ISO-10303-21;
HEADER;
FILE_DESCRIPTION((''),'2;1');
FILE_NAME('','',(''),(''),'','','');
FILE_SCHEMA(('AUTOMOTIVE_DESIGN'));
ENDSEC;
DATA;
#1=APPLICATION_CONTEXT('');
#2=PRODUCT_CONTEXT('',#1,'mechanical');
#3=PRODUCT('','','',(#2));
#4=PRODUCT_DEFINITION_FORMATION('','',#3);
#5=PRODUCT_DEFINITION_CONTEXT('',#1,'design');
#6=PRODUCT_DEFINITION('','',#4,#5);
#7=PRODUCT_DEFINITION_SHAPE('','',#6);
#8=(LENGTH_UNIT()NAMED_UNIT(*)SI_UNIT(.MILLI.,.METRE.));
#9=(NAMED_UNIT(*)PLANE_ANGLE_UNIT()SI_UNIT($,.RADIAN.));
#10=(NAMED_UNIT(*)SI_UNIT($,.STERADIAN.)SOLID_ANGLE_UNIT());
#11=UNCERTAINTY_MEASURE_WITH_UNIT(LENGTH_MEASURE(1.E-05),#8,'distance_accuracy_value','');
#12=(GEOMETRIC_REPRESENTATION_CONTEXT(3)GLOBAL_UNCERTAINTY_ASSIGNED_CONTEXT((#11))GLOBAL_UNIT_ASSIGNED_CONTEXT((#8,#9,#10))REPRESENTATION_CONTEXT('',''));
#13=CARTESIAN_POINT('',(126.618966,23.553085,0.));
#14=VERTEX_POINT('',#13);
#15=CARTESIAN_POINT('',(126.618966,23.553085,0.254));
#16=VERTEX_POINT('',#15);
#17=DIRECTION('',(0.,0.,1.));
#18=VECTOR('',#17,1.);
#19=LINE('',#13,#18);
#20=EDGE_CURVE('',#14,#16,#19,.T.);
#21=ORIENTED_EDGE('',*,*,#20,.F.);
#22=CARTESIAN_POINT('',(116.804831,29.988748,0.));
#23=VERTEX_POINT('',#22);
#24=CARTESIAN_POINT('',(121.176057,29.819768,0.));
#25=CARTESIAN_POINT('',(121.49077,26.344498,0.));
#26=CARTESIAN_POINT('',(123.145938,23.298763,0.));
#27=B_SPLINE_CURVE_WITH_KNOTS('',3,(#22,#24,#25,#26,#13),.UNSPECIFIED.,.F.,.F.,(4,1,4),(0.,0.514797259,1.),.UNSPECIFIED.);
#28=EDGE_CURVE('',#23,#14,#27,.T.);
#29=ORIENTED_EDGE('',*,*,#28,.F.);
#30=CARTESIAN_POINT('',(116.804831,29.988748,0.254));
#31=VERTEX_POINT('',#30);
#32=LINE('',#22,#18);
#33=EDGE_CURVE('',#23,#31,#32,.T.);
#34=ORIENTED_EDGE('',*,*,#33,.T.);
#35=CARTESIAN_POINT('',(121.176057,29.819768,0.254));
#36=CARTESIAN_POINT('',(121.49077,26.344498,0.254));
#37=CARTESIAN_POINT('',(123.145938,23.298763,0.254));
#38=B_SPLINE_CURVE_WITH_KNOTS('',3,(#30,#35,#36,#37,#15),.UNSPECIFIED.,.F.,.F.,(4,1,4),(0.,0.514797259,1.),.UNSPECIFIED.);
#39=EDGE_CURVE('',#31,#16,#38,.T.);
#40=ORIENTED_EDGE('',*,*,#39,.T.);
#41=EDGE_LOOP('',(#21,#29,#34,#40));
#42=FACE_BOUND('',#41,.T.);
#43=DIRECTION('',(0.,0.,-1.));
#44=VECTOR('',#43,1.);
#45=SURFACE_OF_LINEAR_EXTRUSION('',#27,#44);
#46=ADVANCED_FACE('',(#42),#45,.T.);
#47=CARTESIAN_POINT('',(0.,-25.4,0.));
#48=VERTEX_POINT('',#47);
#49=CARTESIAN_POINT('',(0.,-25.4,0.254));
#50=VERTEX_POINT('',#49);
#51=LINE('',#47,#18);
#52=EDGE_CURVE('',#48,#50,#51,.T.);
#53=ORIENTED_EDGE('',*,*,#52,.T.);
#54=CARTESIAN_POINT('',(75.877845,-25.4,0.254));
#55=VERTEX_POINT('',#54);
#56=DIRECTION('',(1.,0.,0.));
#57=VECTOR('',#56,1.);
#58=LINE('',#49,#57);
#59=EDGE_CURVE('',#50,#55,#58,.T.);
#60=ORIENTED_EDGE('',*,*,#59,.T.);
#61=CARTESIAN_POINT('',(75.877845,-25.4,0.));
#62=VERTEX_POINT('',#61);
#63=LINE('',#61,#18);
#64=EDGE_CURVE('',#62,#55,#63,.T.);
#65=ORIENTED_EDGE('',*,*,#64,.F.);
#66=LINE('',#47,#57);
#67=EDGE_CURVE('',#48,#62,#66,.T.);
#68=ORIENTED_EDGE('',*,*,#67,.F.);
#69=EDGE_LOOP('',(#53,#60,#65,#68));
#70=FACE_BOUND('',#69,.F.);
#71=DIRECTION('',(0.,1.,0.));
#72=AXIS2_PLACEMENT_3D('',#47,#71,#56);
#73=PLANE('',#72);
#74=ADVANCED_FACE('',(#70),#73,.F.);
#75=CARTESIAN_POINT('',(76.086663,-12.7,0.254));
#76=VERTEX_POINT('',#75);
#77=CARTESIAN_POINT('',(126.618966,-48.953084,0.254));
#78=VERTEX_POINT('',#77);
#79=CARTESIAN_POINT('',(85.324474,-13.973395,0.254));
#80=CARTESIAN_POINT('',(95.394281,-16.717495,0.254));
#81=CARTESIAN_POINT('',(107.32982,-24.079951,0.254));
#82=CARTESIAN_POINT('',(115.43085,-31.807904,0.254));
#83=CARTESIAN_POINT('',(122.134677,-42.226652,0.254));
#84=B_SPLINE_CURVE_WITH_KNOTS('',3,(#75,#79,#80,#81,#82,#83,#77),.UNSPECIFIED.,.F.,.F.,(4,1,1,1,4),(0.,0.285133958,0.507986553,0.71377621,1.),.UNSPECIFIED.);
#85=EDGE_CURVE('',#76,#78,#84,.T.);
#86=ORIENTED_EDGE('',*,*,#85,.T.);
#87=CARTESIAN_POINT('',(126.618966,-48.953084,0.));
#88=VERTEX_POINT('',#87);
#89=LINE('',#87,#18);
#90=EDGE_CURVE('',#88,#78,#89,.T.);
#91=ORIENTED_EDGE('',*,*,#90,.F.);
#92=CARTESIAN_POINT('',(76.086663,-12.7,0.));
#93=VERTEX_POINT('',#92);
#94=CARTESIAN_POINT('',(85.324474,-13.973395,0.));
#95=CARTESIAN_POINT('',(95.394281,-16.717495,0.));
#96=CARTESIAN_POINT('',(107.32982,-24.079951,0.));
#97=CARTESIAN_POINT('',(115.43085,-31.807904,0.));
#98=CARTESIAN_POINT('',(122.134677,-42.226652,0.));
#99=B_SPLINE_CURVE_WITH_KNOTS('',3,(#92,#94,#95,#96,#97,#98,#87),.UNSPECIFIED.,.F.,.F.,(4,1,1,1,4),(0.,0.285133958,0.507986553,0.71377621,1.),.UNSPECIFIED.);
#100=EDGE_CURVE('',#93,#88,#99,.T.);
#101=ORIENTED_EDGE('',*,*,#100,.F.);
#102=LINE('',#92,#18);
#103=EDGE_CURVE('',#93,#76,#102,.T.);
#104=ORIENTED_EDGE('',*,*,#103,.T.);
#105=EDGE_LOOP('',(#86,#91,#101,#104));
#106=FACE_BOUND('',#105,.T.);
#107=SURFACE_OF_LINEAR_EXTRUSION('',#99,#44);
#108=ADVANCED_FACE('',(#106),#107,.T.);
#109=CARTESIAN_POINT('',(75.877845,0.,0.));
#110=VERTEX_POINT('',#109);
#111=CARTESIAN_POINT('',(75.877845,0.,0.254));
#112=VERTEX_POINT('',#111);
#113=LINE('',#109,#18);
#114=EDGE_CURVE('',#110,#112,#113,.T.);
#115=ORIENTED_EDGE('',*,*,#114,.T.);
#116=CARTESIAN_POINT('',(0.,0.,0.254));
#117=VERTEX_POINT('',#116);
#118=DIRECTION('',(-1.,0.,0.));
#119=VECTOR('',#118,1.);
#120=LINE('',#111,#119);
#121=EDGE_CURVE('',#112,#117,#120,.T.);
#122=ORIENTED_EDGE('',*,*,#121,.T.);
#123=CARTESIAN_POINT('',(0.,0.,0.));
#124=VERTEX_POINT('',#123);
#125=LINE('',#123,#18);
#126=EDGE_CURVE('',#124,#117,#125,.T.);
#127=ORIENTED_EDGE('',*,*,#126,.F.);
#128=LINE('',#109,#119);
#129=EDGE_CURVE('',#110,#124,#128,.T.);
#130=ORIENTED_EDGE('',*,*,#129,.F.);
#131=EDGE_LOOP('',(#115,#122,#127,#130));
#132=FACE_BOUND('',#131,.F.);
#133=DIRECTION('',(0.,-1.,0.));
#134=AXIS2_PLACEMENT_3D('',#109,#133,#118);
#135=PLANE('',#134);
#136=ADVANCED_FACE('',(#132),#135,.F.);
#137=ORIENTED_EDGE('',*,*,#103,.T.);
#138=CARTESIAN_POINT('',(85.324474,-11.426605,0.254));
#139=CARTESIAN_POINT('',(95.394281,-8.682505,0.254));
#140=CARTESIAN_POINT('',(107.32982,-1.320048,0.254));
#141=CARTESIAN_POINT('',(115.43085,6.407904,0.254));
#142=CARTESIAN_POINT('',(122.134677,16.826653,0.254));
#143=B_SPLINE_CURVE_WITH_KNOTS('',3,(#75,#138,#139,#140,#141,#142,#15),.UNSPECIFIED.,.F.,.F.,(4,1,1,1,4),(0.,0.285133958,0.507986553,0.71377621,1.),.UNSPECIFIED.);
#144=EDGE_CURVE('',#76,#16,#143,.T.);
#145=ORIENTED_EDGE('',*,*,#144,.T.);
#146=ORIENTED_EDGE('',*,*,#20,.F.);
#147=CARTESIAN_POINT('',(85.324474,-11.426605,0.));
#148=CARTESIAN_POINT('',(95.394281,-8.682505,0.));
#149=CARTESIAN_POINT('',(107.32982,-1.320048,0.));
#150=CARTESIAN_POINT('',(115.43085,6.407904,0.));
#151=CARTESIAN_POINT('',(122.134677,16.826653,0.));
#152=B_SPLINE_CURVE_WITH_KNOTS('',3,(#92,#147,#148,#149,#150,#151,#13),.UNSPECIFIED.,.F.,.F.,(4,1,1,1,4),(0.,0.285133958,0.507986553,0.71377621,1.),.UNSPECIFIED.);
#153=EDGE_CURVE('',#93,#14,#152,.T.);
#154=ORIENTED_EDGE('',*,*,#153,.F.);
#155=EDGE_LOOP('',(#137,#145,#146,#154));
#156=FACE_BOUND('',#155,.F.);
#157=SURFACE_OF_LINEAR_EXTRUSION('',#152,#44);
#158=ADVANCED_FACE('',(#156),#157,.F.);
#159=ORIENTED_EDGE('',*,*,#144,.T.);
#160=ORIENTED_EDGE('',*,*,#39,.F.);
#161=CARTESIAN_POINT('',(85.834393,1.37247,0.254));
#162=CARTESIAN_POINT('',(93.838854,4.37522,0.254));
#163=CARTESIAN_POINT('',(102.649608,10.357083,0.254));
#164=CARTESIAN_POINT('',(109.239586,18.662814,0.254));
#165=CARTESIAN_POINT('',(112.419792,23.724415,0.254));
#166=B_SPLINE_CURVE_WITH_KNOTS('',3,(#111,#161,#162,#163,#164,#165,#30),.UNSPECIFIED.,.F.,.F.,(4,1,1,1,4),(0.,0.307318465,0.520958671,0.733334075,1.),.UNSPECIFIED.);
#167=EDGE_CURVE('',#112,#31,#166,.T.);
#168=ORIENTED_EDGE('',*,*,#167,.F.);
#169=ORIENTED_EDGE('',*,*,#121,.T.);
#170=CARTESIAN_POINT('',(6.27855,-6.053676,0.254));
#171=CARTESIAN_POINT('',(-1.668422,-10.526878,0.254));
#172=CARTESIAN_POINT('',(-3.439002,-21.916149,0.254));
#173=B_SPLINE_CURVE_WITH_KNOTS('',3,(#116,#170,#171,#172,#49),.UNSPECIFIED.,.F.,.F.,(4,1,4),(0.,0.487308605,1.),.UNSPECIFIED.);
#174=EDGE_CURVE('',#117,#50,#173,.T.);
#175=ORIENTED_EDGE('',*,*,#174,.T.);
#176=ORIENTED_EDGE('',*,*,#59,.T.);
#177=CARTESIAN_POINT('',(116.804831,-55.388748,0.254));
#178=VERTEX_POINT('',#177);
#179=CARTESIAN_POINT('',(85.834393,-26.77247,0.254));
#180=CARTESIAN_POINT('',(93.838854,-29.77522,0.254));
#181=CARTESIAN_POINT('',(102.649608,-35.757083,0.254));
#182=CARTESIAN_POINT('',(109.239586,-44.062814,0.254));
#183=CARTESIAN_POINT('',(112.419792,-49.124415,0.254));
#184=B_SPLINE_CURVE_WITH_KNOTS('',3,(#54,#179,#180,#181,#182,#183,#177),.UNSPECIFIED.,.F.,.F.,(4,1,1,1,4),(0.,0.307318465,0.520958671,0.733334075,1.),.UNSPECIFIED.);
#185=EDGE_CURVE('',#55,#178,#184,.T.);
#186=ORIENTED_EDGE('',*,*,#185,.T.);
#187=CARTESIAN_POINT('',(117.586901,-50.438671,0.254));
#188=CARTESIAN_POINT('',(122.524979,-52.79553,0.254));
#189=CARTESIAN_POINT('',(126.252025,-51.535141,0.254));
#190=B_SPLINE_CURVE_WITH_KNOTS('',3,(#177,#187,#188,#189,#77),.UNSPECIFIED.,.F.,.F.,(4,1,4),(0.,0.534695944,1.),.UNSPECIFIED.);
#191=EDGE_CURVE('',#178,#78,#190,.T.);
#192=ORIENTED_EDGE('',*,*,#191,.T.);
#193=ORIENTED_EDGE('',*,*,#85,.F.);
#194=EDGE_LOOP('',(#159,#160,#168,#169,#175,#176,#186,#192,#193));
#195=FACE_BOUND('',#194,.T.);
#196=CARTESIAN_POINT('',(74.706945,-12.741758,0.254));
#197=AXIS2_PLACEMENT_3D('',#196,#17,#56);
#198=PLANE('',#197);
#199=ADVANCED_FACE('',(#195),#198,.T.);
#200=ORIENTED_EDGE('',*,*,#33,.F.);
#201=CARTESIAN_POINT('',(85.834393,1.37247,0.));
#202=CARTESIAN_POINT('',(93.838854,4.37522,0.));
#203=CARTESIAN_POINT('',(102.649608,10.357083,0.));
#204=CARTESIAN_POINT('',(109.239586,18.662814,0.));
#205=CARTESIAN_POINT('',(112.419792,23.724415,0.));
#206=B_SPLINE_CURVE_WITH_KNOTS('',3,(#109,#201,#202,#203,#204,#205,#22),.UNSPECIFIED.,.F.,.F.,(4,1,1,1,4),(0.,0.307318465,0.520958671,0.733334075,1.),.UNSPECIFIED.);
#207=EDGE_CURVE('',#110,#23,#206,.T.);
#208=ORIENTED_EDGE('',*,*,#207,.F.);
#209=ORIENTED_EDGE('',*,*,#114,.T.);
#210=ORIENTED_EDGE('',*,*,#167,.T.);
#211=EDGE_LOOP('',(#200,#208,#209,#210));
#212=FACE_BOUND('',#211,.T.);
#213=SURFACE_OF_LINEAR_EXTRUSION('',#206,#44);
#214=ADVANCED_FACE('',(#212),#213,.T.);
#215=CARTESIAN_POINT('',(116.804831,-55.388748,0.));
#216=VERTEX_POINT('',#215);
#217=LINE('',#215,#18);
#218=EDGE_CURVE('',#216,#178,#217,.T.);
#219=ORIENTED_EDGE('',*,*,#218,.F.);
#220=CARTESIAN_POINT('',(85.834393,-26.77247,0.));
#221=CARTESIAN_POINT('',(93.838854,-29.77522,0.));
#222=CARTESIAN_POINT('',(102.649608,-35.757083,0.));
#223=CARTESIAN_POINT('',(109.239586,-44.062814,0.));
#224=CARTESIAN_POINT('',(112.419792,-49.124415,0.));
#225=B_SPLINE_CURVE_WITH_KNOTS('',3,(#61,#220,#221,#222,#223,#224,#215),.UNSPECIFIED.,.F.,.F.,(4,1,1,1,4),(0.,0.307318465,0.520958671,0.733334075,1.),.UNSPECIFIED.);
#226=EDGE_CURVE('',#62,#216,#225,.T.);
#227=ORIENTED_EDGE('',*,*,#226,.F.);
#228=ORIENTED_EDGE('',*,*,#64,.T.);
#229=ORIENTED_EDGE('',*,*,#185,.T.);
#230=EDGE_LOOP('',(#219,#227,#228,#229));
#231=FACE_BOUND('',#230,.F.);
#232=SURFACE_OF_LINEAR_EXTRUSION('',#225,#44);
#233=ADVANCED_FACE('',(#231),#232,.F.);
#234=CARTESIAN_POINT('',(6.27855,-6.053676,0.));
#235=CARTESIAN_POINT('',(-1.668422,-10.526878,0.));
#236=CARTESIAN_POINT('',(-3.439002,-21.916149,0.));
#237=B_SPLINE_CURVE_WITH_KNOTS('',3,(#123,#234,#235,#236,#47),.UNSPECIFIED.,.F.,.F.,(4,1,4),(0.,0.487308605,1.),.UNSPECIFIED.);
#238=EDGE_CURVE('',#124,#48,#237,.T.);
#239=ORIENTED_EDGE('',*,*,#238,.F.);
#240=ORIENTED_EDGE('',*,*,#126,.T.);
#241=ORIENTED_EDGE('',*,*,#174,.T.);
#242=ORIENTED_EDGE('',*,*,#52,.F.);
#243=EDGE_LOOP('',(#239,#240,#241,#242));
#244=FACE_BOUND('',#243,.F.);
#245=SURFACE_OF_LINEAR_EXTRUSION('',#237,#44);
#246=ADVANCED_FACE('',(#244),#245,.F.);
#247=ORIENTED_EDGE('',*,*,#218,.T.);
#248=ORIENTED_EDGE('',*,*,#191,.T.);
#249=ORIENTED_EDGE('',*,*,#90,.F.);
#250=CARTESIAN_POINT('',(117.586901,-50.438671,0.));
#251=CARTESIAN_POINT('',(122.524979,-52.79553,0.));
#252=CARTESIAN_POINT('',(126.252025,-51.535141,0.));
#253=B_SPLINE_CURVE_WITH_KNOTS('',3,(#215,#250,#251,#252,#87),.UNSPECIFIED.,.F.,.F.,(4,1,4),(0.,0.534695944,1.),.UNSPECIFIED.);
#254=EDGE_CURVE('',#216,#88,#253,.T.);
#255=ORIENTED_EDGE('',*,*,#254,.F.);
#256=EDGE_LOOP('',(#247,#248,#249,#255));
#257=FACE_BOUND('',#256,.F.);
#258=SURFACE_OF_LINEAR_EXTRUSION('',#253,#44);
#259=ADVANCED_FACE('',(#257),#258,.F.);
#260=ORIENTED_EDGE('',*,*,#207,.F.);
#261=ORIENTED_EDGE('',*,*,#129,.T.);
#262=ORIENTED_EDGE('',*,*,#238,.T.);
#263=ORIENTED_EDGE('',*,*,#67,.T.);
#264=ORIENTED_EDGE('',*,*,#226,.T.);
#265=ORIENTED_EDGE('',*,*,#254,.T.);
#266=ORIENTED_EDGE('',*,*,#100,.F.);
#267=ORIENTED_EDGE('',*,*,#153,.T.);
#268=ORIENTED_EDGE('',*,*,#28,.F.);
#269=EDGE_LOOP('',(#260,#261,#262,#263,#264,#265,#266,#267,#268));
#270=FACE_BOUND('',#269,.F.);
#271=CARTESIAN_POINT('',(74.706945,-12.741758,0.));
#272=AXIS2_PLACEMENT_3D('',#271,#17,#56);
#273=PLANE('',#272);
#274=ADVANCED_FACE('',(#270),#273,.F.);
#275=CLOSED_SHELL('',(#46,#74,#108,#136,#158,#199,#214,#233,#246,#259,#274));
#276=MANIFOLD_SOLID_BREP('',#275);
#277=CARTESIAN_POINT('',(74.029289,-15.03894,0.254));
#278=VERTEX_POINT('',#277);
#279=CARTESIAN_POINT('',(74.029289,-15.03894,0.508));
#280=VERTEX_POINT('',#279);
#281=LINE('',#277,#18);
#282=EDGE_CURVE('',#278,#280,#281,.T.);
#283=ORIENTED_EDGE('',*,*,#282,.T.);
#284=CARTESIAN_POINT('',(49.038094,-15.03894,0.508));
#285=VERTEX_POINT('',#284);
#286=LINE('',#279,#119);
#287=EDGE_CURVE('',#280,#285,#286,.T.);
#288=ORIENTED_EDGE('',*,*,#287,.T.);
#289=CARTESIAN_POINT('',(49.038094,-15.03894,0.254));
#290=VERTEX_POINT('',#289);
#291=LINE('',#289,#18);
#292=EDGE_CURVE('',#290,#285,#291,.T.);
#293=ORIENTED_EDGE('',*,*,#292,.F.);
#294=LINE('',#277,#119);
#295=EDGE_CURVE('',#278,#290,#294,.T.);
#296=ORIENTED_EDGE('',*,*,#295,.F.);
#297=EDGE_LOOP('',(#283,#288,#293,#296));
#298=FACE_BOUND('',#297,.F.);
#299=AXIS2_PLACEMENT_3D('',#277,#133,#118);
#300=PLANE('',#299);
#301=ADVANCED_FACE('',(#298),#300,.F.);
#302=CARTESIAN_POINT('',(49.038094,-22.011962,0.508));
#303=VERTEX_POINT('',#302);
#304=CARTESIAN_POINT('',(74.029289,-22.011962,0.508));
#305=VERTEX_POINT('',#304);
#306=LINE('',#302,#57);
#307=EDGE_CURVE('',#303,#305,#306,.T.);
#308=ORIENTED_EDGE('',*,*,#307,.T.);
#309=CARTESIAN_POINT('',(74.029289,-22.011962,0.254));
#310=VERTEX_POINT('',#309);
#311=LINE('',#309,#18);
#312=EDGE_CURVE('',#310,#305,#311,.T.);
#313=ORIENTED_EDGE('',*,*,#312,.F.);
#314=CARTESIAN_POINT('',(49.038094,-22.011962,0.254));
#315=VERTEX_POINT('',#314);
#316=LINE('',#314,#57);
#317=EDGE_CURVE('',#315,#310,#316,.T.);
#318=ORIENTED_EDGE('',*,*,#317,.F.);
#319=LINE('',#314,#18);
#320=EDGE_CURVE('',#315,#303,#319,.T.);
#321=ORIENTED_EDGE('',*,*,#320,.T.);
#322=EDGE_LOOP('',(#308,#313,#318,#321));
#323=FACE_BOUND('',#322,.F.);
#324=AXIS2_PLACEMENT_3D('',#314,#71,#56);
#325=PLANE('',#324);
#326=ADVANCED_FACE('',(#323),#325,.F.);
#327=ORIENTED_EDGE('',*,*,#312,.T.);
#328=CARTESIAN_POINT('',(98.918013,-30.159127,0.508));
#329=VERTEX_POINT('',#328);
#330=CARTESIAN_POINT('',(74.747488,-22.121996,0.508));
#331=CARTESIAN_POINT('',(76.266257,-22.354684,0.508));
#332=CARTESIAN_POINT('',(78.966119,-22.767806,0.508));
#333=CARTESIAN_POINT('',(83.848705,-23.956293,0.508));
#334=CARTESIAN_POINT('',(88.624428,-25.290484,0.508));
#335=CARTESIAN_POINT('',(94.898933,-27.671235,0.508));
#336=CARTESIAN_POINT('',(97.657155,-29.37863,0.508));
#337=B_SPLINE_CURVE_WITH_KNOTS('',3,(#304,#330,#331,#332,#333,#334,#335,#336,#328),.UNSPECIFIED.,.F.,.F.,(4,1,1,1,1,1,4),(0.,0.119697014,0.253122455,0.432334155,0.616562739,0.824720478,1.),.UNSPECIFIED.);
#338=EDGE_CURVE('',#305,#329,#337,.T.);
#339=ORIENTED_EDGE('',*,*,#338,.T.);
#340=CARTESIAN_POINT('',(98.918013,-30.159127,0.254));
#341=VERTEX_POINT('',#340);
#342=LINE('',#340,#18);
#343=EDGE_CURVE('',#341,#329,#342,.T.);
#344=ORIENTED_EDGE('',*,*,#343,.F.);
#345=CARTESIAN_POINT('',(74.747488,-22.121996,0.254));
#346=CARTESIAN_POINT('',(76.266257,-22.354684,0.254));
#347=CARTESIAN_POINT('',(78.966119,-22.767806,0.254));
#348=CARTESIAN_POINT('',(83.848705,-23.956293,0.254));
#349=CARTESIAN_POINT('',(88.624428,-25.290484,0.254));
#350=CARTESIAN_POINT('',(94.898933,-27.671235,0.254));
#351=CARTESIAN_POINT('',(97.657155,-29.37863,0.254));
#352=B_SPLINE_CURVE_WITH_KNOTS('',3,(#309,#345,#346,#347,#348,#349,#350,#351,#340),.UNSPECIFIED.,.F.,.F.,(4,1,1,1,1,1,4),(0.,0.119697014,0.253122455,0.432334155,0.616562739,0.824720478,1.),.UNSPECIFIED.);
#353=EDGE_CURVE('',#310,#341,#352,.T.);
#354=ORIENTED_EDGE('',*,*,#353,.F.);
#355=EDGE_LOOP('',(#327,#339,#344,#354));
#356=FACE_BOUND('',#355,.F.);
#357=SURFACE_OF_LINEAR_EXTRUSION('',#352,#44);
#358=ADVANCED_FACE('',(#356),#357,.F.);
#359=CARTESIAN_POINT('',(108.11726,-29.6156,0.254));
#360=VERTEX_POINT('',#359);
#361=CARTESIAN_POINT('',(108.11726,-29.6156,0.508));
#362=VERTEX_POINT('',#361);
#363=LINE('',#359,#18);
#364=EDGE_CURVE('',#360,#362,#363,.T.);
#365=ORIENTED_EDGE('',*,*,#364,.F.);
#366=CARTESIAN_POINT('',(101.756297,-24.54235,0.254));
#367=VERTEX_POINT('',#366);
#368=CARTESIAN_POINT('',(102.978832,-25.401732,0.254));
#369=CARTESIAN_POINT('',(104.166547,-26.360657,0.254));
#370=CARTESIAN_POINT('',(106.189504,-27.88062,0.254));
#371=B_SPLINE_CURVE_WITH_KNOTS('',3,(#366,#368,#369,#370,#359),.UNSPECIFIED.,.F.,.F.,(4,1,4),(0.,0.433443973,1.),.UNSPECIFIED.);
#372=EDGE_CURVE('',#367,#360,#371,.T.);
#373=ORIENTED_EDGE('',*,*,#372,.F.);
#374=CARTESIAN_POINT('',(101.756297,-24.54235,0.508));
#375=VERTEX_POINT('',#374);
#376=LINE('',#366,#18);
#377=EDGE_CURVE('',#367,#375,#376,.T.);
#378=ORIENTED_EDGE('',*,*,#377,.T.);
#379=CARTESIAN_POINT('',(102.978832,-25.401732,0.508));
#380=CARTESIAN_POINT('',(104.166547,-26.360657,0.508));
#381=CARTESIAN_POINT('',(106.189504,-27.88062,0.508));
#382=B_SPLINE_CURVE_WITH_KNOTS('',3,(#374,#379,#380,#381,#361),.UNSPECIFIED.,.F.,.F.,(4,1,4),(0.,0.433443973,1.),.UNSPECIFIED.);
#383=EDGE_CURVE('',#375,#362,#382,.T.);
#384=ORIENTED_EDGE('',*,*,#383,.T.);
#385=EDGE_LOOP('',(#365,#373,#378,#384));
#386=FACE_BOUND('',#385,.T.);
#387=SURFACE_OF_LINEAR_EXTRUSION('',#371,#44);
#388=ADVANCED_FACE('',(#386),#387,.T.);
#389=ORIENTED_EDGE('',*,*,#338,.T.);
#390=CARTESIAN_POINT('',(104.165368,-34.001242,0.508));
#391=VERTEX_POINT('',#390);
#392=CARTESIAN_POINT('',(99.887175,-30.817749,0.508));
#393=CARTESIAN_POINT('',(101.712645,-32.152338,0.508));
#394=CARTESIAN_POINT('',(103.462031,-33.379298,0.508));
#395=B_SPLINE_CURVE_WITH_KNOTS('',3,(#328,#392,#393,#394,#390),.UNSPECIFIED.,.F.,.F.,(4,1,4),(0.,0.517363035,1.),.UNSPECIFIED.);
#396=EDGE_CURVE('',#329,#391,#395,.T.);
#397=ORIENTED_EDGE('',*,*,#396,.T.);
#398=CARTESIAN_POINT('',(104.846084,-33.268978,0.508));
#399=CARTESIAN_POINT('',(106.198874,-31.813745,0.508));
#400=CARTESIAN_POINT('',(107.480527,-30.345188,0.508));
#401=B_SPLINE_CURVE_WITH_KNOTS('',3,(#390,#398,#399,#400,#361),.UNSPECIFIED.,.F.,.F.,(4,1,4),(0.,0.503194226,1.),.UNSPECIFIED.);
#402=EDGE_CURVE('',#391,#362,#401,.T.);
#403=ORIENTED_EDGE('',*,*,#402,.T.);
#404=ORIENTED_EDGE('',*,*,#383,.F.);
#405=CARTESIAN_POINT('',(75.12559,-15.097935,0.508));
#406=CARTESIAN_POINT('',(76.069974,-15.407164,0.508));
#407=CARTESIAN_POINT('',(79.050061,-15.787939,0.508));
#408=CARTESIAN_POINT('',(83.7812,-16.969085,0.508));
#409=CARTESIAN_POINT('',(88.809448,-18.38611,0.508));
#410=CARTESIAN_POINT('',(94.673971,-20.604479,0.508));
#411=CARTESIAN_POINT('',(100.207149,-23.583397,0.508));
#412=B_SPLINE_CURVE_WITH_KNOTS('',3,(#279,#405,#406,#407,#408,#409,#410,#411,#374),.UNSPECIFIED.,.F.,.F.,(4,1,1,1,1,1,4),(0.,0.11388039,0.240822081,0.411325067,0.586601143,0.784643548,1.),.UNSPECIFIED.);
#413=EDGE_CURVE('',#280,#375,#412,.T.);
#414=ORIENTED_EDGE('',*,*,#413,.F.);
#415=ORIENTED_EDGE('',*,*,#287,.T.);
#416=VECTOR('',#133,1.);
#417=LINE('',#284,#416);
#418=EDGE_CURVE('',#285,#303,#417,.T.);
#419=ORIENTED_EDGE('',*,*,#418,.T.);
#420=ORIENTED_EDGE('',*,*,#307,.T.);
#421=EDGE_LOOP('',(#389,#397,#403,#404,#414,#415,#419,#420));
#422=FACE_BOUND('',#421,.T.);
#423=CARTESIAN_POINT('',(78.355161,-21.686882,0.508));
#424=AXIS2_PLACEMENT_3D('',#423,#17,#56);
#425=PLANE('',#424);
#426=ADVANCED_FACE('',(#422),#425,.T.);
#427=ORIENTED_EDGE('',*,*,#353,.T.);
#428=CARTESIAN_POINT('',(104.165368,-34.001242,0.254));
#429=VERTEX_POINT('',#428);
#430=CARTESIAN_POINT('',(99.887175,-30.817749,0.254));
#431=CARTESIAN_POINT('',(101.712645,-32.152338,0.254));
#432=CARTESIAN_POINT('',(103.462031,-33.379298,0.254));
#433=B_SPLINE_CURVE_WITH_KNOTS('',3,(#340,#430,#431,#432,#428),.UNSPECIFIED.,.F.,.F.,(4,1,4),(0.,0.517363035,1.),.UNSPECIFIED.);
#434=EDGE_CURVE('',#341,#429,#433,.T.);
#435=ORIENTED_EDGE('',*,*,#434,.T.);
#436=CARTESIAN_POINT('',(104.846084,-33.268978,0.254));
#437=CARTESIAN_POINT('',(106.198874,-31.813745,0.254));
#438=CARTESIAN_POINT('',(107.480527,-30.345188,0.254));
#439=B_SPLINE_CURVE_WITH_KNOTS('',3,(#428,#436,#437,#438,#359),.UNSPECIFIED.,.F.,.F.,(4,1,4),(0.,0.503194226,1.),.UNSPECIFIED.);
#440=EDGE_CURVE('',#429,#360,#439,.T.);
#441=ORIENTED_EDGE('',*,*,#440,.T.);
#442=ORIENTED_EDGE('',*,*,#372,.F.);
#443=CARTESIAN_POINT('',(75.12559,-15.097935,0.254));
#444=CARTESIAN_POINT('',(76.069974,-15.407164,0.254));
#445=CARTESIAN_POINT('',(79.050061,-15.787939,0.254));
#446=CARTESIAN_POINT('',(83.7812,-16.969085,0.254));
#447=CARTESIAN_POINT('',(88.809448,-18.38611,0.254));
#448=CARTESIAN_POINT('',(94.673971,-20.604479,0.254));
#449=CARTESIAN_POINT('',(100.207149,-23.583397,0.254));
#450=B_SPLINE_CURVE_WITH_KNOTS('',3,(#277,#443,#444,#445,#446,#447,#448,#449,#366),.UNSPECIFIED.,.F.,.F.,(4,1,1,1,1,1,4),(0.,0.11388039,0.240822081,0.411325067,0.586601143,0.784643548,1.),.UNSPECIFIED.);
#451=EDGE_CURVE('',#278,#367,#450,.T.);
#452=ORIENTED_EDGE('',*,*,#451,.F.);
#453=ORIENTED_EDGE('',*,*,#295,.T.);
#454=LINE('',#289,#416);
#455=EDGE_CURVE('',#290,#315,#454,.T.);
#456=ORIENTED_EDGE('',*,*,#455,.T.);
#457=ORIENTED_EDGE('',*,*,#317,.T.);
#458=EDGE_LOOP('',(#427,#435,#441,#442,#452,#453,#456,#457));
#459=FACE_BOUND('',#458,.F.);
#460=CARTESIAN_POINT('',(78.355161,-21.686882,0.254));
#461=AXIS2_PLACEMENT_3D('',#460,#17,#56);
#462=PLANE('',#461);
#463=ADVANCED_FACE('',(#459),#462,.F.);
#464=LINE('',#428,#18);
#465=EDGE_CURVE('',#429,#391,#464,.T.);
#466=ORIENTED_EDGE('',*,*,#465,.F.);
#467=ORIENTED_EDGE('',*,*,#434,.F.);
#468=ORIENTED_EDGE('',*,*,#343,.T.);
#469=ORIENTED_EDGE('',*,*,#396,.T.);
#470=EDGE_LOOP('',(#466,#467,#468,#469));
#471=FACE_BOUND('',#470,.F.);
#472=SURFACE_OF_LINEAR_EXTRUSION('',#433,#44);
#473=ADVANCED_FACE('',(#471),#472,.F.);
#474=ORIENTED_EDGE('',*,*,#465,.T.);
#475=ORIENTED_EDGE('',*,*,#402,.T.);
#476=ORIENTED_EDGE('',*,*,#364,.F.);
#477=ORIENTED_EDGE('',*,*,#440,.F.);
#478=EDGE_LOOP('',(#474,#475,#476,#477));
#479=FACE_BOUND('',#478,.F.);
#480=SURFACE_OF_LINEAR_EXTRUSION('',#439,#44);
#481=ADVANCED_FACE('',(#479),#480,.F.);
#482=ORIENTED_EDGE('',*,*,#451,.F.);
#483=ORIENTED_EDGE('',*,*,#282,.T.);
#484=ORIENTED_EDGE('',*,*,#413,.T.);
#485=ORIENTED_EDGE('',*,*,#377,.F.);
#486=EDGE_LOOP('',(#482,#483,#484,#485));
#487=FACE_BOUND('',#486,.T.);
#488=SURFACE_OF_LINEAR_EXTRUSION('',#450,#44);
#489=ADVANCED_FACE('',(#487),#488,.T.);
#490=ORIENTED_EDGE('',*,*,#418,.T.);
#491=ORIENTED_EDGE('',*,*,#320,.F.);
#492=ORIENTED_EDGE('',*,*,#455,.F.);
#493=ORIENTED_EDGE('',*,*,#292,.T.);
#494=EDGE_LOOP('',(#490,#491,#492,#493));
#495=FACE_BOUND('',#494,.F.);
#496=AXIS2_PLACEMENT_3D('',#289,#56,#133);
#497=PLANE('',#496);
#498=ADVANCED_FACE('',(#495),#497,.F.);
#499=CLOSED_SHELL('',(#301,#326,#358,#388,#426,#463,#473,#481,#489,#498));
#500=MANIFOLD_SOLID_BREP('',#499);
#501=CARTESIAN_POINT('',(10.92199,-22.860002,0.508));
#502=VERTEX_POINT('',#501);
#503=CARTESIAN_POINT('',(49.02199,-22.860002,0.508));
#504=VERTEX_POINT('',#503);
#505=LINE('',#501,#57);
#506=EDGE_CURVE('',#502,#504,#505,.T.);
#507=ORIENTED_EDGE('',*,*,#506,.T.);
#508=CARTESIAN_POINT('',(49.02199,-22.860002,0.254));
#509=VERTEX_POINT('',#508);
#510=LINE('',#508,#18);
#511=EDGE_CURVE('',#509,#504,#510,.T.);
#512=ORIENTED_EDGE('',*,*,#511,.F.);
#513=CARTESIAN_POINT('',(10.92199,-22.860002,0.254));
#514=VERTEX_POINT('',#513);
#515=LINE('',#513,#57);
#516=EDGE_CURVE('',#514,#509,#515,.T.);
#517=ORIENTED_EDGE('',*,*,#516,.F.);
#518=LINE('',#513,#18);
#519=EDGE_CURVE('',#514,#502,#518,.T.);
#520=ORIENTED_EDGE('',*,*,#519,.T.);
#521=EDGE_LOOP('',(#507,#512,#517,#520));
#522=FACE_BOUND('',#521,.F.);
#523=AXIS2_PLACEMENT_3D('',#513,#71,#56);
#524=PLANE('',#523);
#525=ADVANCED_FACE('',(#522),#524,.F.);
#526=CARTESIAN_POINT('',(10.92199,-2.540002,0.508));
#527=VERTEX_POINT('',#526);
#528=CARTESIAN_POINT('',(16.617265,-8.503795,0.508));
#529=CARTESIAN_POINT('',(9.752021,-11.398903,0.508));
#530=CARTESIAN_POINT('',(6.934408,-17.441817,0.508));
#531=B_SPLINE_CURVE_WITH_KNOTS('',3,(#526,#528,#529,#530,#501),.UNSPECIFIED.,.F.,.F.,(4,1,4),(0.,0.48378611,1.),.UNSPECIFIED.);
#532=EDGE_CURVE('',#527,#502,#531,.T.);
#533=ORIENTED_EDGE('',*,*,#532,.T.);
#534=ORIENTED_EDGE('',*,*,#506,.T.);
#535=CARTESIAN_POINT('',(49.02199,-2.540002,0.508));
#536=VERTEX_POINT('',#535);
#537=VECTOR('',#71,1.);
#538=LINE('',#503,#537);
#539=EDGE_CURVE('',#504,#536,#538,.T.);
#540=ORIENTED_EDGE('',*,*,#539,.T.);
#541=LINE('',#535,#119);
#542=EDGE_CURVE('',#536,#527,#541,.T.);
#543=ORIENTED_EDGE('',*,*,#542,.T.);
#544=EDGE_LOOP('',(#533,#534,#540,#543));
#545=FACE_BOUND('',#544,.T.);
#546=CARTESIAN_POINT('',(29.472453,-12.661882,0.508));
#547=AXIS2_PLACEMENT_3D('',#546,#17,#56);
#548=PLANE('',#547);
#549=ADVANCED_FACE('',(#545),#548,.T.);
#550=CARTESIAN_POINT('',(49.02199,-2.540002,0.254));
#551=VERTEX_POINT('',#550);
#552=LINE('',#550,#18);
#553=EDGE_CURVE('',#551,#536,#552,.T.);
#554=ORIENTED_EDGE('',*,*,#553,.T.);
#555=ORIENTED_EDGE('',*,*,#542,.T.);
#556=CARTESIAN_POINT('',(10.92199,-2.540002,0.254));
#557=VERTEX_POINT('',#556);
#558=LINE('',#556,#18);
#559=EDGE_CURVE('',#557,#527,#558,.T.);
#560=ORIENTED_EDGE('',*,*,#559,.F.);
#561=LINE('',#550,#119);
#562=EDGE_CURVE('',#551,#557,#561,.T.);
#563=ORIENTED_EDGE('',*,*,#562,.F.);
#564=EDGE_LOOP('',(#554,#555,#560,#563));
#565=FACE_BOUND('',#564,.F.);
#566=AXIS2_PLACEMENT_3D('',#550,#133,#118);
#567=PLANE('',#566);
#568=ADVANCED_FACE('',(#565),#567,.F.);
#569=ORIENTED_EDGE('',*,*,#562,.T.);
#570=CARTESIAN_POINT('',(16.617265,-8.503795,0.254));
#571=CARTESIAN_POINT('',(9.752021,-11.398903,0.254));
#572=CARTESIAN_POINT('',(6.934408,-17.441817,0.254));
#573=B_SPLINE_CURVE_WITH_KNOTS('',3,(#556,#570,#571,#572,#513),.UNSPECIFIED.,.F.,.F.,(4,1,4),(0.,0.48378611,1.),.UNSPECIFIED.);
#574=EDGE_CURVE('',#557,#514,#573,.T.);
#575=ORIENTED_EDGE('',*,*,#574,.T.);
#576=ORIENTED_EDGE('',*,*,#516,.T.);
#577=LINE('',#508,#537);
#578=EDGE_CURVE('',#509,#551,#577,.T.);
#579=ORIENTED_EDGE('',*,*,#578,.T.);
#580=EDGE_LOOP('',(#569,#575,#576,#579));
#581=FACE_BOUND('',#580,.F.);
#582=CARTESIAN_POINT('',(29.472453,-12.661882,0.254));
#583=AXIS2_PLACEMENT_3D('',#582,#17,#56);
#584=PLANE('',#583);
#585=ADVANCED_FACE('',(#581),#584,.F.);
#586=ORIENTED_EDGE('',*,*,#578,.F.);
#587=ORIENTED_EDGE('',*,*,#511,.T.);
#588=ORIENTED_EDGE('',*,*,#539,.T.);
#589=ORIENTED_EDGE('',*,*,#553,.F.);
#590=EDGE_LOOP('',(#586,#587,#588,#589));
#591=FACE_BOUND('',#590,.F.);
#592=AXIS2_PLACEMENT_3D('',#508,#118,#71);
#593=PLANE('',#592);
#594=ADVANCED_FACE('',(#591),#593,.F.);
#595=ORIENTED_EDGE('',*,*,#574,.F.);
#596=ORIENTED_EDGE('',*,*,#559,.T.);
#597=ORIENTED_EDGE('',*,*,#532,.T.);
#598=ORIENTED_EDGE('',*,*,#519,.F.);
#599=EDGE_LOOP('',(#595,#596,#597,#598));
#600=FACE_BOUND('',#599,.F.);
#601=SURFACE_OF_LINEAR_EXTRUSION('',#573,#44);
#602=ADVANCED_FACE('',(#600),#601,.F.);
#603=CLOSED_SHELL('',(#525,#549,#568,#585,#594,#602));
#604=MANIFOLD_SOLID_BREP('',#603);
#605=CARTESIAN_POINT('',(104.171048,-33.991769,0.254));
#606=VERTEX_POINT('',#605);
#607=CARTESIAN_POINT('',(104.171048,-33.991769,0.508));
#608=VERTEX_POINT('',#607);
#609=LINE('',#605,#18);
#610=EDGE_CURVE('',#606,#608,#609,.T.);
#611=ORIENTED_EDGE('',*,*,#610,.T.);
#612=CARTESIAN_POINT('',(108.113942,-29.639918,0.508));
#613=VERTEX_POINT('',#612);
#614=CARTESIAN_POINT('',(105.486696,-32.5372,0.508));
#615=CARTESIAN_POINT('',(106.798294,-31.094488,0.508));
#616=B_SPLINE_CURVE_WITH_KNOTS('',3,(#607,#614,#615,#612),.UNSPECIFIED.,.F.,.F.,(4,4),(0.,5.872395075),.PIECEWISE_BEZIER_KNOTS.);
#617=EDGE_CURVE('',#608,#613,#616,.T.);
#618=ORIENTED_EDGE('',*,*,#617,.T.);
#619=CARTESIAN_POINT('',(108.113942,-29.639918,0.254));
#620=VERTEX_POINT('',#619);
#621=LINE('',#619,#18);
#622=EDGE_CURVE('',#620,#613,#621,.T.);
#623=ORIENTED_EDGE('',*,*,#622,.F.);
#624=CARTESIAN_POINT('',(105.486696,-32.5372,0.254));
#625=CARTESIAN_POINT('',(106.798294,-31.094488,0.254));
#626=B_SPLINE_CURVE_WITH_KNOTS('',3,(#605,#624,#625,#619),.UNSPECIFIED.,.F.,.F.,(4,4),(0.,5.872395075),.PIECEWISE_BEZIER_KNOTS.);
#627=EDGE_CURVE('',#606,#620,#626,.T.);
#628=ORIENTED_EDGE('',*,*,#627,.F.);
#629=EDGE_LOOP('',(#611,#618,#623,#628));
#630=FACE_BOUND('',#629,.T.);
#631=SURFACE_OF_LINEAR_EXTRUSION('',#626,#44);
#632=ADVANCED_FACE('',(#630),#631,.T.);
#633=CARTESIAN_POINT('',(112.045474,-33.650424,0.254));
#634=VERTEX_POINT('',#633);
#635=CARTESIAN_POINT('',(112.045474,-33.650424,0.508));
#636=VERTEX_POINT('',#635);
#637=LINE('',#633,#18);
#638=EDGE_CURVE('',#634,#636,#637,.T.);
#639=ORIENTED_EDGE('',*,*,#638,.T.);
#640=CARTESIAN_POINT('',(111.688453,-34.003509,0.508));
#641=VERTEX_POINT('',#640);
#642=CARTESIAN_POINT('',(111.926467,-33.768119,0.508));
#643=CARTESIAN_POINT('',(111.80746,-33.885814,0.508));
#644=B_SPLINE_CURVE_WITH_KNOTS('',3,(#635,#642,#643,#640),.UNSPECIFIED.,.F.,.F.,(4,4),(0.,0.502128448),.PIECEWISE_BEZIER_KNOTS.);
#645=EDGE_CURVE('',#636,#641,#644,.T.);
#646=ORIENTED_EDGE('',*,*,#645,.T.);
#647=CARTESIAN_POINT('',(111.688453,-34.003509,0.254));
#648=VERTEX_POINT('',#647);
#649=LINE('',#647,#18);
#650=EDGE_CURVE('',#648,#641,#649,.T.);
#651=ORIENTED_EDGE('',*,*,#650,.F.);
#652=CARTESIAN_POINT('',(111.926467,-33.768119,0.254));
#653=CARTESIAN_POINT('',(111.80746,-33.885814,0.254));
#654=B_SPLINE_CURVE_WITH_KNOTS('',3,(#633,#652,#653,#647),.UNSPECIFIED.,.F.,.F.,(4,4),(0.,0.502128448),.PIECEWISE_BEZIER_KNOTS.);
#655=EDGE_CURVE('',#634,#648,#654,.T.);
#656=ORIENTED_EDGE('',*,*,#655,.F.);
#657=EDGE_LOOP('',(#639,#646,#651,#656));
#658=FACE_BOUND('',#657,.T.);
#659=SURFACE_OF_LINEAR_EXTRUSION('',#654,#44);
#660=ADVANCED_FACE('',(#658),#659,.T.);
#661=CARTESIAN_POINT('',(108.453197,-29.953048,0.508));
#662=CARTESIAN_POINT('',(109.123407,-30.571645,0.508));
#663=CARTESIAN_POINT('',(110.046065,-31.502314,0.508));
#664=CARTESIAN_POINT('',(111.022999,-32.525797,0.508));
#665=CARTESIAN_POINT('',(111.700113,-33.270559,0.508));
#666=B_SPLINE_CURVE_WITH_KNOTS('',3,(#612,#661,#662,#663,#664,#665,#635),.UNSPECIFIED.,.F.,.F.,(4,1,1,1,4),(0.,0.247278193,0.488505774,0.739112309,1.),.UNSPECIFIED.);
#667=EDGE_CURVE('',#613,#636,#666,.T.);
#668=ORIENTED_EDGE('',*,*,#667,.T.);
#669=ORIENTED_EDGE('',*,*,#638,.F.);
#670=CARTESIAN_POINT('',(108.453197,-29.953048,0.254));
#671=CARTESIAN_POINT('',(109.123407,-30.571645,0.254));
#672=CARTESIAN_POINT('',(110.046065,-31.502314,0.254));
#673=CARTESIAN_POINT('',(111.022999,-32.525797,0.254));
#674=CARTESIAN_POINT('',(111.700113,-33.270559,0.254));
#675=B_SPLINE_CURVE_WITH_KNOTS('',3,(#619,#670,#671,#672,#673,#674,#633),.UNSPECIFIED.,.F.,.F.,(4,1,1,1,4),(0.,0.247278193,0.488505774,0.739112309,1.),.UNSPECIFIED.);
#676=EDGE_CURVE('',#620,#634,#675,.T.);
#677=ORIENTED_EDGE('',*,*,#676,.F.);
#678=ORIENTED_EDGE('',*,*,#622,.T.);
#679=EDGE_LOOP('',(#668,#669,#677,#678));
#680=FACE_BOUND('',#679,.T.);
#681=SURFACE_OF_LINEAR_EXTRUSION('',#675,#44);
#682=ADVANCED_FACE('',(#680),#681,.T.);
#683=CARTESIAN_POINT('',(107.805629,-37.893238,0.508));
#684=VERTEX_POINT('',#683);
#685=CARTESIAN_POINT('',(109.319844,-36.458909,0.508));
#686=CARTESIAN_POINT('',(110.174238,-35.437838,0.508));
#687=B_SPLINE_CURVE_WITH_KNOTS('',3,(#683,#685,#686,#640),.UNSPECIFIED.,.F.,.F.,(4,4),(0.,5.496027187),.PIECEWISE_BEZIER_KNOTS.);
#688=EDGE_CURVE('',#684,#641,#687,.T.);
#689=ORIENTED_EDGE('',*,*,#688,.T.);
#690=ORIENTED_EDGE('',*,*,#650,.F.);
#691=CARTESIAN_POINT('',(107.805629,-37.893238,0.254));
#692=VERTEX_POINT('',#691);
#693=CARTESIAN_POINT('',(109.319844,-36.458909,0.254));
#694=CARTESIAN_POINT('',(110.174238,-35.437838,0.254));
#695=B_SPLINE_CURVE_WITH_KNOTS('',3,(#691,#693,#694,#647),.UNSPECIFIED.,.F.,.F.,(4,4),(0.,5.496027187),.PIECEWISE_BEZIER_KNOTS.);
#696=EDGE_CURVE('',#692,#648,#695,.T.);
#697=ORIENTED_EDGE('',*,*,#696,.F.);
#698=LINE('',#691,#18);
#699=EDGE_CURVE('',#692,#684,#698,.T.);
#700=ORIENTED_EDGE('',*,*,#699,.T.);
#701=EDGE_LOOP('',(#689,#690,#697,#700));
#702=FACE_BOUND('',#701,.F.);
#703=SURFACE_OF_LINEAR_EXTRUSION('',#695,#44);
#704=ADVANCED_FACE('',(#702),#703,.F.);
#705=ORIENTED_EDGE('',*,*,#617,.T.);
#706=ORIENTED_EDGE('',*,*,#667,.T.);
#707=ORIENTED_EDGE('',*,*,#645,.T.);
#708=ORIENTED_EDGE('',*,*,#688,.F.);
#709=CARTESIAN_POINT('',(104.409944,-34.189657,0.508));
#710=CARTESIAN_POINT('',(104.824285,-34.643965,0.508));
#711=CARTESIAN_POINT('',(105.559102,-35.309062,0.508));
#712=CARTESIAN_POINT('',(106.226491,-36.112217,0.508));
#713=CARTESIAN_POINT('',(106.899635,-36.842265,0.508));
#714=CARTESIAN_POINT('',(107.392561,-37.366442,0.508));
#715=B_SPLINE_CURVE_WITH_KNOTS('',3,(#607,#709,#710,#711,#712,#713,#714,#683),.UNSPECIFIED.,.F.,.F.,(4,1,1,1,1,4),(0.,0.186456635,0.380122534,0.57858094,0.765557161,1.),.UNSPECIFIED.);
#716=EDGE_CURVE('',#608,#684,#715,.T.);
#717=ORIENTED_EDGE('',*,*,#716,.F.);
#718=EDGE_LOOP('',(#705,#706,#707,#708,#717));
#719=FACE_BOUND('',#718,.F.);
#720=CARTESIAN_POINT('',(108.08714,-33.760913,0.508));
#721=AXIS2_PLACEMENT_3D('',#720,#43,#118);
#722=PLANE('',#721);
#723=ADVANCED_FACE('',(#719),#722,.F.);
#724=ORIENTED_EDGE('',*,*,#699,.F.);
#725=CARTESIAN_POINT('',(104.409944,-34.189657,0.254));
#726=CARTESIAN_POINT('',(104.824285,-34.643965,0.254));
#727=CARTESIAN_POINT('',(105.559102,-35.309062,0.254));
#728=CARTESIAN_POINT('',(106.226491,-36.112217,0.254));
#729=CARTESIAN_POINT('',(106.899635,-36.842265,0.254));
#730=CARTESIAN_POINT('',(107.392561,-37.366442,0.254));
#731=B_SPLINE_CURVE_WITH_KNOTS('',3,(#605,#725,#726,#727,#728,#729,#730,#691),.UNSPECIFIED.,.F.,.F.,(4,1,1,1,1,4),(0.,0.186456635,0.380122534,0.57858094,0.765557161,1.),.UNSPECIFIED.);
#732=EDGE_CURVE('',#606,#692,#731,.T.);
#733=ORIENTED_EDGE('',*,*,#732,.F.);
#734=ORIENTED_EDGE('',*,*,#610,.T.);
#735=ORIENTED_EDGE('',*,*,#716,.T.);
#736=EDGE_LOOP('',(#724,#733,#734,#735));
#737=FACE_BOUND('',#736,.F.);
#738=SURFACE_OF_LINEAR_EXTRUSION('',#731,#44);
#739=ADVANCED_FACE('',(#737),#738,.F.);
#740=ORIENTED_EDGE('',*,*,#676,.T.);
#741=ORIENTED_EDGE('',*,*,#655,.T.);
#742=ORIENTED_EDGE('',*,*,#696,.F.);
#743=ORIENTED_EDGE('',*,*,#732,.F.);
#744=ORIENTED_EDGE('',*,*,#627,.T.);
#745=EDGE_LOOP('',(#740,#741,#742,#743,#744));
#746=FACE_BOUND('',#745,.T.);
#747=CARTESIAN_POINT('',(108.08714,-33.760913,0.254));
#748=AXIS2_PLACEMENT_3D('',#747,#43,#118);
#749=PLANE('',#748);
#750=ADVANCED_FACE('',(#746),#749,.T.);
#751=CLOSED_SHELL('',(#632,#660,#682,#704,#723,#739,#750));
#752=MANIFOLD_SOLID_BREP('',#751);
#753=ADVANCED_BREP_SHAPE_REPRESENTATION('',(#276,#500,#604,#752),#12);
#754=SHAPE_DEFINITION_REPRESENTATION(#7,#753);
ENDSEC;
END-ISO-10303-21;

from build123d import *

# Parameters (mm, degrees)
F1_DEPTH = 0.254
F3_DEPTH = 0.254
F5_DEPTH = 0.254
F7_DEPTH = 0.254


with BuildPart() as f1:
    # F0 (on Top) → F1 (new body)
    with BuildSketch(Plane.XY):
        with BuildLine():
            Line((75.8778452873, 0), (0, 0))
            add(Edge.make_bspline(
                [(0, 0), (6.2785497867, -6.0536758974), (-1.6684219392, -10.5268778435), (-3.4390024375, -21.9161491841), (0, -25.4)],
                knots=[0, 0, 0, 0, 0.4873086052, 1, 1, 1, 1], degree=3))
            Line((0, -25.4), (75.8778452873, -25.4))
            add(Edge.make_bspline(
                [(75.8778452873, -25.4), (85.8343930074, -26.7724701236), (93.8388538337, -29.7752200664), (102.6496075388, -35.7570827972), (109.2395856526, -44.0628139366), (112.4197915196, -49.1244153395), (116.80483073, -55.3887480214)],
                knots=[0, 0, 0, 0, 0.307318465, 0.5209586707, 0.7333340753, 1, 1, 1, 1], degree=3))
            add(Edge.make_bspline(
                [(116.80483073, -55.3887480214), (117.5869007423, -50.438671112), (122.5249790984, -52.7955302783), (126.2520253658, -51.535140723), (126.6189664602, -48.9530842751)],
                knots=[0, 0, 0, 0, 0.5346959438, 1, 1, 1, 1], degree=3))
            add(Edge.make_bspline(
                [(76.0866627097, -12.6999998465), (85.3244735821, -13.9733949817), (95.3942806427, -16.717494619), (107.3298202091, -24.0799513136), (115.4308502992, -31.8079037687), (122.1346774296, -42.2266523959), (126.6189664602, -48.9530842751)],
                knots=[0, 0, 0, 0, 0.2851339577, 0.5079865525, 0.7137762099, 1, 1, 1, 1], degree=3))
            add(Edge.make_bspline(
                [(76.0866627097, -12.6999998465), (85.3244735821, -11.4266047114), (95.3942806427, -8.6825050741), (107.3298202091, -1.3200483794), (115.4308502992, 6.4079040757), (122.1346774296, 16.8266527029), (126.6189664602, 23.5530845821)],
                knots=[0, 0, 0, 0, 0.2851339577, 0.5079865525, 0.7137762099, 1, 1, 1, 1], degree=3))
            add(Edge.make_bspline(
                [(116.80483073, 29.9887480214), (121.1760565639, 29.8197679222), (121.4907700555, 26.344497845), (123.1459379196, 23.2987627387), (126.6189664602, 23.5530845821)],
                knots=[0, 0, 0, 0, 0.5147972586, 1, 1, 1, 1], degree=3))
            add(Edge.make_bspline(
                [(75.8778452873, 0), (85.8343930074, 1.3724701236), (93.8388538337, 4.3752200664), (102.6496075388, 10.3570827972), (109.2395856526, 18.6628139366), (112.4197915196, 23.7244153395), (116.80483073, 29.9887480214)],
                knots=[0, 0, 0, 0, 0.307318465, 0.5209586707, 0.7333340753, 1, 1, 1, 1], degree=3))
        make_face()
    extrude(amount=F1_DEPTH)


with BuildPart() as f3:
    # F2 (on face) → F3 (new body)
    with BuildSketch(Plane.XY.offset(0.254)):
        with BuildLine():
            Line((49.0219895676, -2.5400017726), (10.9219895676, -2.5400017726))
            add(Edge.make_bspline(
                [(10.9219895676, -2.5400017726), (16.617264916, -8.5037945801), (9.7520207569, -11.3989025011), (6.9344084159, -17.441816538), (10.9219895676, -22.8600017726)],
                knots=[0, 0, 0, 0, 0.4837861097, 1, 1, 1, 1], degree=3))
            Line((10.9219895676, -22.8600017726), (49.0219895676, -22.8600017726))
            Line((49.0219895676, -22.8600017726), (49.0219895676, -2.5400017726))
        make_face()
    extrude(amount=F3_DEPTH)


with BuildPart() as f5:
    # F4 (on face) → F5 (new body)
    with BuildSketch(Plane.XY.offset(0.254)):
        with BuildLine():
            Line((49.0380935371, -15.0389395746), (49.0380935371, -22.0119617879))
            Line((49.0380935371, -22.0119617879), (74.029289186, -22.0119617879))
            add(Edge.make_bspline(
                [(74.029289186, -22.0119617879), (74.7474876213, -22.1219957865), (76.2662569253, -22.3546839283), (78.9661194201, -22.7678063221), (83.8487047925, -23.956293258), (88.6244277012, -25.2904840545), (94.8989330072, -27.6712350069), (97.6571553784, -29.3786304321), (98.9180132747, -30.1591269672)],
                knots=[0, 0, 0, 0, 0.1196970144, 0.2531224552, 0.4323341554, 0.6165627393, 0.8247204784, 1, 1, 1, 1], degree=3))
            add(Edge.make_bspline(
                [(98.9180132747, -30.1591269672), (99.8871751276, -30.8177490844), (101.7126445017, -32.1523381789), (103.4620310391, -33.3792983043), (104.1653677821, -34.0012423694)],
                knots=[0, 0, 0, 0, 0.5173630348, 1, 1, 1, 1], degree=3))
            add(Edge.make_bspline(
                [(104.1653677821, -34.0012423694), (104.8460840231, -33.2689778496), (106.1988742703, -31.8137454912), (107.4805273756, -30.3451876683), (108.1172600389, -29.6155996621)],
                knots=[0, 0, 0, 0, 0.5031942257, 1, 1, 1, 1], degree=3))
            add(Edge.make_bspline(
                [(101.7562970519, -24.542350322), (102.978831553, -25.4017321627), (104.1665471475, -26.360657397), (106.1895042658, -27.8806202114), (108.1172600389, -29.6155996621)],
                knots=[0, 0, 0, 0, 0.433443973, 1, 1, 1, 1], degree=3))
            add(Edge.make_bspline(
                [(74.029289186, -15.0389395746), (75.1255899668, -15.0979347527), (76.0699741171, -15.4071638466), (79.0500609961, -15.7879393483), (83.7812002208, -16.9690851075), (88.8094479954, -18.3861101897), (94.6739709102, -20.6044792006), (100.2071492671, -23.583396516), (101.7562970519, -24.542350322)],
                knots=[0, 0, 0, 0, 0.1138803905, 0.2408220805, 0.4113250666, 0.5866011433, 0.7846435483, 1, 1, 1, 1], degree=3))
            Line((74.029289186, -15.0389395746), (49.0380935371, -15.0389395746))
        make_face()
    extrude(amount=F5_DEPTH)


with BuildPart() as f7:
    # F6 (on face) → F7 (new body)
    with BuildSketch(Plane.XY.offset(0.254)):
        with BuildLine():
            add(Edge.make_bspline(
                [(104.1710475418, -33.9917691448), (105.4866958989, -32.5371997454), (106.7982937896, -31.0944876678), (108.1139421467, -29.6399182684)],
                knots=[0, 0, 0, 0, 5.8723950749, 5.8723950749, 5.8723950749, 5.8723950749], degree=3))
            add(Edge.make_bspline(
                [(104.1710475418, -33.9917691448), (104.4099439242, -34.1896572138), (104.8242851743, -34.6439646752), (105.5591015406, -35.3090622934), (106.2264910501, -36.1122166112), (106.8996351235, -36.842264614), (107.3925606354, -37.3664417525), (107.8056286666, -37.8932377124)],
                knots=[0, 0, 0, 0, 0.1864566355, 0.380122534, 0.5785809395, 0.7655571608, 1, 1, 1, 1], degree=3))
            add(Edge.make_bspline(
                [(107.8056286666, -37.8932377124), (109.319843612, -36.4589086186), (110.1742377292, -35.4378376941), (111.6884526747, -34.0035086003)],
                knots=[0, 0, 0, 0, 5.4960271873, 5.4960271873, 5.4960271873, 5.4960271873], degree=3))
            add(Edge.make_bspline(
                [(112.0454743505, -33.6504243314), (111.9264671252, -33.7681190877), (111.8074598999, -33.885813844), (111.6884526747, -34.0035086003)],
                knots=[0, 0, 0, 0, 0.5021284476, 0.5021284476, 0.5021284476, 0.5021284476], degree=3))
            add(Edge.make_bspline(
                [(108.1139421467, -29.6399182684), (108.453197494, -29.9530477635), (109.1234070026, -30.571644837), (110.0460648425, -31.5023143998), (111.0229990464, -32.5257970483), (111.7001125346, -33.2705586084), (112.0454743505, -33.6504243314)],
                knots=[0, 0, 0, 0, 0.2472781927, 0.4885057739, 0.7391123087, 1, 1, 1, 1], degree=3))
        make_face()
    extrude(amount=F7_DEPTH)


solid = Compound([f1.part, f3.part, f5.part, f7.part])
